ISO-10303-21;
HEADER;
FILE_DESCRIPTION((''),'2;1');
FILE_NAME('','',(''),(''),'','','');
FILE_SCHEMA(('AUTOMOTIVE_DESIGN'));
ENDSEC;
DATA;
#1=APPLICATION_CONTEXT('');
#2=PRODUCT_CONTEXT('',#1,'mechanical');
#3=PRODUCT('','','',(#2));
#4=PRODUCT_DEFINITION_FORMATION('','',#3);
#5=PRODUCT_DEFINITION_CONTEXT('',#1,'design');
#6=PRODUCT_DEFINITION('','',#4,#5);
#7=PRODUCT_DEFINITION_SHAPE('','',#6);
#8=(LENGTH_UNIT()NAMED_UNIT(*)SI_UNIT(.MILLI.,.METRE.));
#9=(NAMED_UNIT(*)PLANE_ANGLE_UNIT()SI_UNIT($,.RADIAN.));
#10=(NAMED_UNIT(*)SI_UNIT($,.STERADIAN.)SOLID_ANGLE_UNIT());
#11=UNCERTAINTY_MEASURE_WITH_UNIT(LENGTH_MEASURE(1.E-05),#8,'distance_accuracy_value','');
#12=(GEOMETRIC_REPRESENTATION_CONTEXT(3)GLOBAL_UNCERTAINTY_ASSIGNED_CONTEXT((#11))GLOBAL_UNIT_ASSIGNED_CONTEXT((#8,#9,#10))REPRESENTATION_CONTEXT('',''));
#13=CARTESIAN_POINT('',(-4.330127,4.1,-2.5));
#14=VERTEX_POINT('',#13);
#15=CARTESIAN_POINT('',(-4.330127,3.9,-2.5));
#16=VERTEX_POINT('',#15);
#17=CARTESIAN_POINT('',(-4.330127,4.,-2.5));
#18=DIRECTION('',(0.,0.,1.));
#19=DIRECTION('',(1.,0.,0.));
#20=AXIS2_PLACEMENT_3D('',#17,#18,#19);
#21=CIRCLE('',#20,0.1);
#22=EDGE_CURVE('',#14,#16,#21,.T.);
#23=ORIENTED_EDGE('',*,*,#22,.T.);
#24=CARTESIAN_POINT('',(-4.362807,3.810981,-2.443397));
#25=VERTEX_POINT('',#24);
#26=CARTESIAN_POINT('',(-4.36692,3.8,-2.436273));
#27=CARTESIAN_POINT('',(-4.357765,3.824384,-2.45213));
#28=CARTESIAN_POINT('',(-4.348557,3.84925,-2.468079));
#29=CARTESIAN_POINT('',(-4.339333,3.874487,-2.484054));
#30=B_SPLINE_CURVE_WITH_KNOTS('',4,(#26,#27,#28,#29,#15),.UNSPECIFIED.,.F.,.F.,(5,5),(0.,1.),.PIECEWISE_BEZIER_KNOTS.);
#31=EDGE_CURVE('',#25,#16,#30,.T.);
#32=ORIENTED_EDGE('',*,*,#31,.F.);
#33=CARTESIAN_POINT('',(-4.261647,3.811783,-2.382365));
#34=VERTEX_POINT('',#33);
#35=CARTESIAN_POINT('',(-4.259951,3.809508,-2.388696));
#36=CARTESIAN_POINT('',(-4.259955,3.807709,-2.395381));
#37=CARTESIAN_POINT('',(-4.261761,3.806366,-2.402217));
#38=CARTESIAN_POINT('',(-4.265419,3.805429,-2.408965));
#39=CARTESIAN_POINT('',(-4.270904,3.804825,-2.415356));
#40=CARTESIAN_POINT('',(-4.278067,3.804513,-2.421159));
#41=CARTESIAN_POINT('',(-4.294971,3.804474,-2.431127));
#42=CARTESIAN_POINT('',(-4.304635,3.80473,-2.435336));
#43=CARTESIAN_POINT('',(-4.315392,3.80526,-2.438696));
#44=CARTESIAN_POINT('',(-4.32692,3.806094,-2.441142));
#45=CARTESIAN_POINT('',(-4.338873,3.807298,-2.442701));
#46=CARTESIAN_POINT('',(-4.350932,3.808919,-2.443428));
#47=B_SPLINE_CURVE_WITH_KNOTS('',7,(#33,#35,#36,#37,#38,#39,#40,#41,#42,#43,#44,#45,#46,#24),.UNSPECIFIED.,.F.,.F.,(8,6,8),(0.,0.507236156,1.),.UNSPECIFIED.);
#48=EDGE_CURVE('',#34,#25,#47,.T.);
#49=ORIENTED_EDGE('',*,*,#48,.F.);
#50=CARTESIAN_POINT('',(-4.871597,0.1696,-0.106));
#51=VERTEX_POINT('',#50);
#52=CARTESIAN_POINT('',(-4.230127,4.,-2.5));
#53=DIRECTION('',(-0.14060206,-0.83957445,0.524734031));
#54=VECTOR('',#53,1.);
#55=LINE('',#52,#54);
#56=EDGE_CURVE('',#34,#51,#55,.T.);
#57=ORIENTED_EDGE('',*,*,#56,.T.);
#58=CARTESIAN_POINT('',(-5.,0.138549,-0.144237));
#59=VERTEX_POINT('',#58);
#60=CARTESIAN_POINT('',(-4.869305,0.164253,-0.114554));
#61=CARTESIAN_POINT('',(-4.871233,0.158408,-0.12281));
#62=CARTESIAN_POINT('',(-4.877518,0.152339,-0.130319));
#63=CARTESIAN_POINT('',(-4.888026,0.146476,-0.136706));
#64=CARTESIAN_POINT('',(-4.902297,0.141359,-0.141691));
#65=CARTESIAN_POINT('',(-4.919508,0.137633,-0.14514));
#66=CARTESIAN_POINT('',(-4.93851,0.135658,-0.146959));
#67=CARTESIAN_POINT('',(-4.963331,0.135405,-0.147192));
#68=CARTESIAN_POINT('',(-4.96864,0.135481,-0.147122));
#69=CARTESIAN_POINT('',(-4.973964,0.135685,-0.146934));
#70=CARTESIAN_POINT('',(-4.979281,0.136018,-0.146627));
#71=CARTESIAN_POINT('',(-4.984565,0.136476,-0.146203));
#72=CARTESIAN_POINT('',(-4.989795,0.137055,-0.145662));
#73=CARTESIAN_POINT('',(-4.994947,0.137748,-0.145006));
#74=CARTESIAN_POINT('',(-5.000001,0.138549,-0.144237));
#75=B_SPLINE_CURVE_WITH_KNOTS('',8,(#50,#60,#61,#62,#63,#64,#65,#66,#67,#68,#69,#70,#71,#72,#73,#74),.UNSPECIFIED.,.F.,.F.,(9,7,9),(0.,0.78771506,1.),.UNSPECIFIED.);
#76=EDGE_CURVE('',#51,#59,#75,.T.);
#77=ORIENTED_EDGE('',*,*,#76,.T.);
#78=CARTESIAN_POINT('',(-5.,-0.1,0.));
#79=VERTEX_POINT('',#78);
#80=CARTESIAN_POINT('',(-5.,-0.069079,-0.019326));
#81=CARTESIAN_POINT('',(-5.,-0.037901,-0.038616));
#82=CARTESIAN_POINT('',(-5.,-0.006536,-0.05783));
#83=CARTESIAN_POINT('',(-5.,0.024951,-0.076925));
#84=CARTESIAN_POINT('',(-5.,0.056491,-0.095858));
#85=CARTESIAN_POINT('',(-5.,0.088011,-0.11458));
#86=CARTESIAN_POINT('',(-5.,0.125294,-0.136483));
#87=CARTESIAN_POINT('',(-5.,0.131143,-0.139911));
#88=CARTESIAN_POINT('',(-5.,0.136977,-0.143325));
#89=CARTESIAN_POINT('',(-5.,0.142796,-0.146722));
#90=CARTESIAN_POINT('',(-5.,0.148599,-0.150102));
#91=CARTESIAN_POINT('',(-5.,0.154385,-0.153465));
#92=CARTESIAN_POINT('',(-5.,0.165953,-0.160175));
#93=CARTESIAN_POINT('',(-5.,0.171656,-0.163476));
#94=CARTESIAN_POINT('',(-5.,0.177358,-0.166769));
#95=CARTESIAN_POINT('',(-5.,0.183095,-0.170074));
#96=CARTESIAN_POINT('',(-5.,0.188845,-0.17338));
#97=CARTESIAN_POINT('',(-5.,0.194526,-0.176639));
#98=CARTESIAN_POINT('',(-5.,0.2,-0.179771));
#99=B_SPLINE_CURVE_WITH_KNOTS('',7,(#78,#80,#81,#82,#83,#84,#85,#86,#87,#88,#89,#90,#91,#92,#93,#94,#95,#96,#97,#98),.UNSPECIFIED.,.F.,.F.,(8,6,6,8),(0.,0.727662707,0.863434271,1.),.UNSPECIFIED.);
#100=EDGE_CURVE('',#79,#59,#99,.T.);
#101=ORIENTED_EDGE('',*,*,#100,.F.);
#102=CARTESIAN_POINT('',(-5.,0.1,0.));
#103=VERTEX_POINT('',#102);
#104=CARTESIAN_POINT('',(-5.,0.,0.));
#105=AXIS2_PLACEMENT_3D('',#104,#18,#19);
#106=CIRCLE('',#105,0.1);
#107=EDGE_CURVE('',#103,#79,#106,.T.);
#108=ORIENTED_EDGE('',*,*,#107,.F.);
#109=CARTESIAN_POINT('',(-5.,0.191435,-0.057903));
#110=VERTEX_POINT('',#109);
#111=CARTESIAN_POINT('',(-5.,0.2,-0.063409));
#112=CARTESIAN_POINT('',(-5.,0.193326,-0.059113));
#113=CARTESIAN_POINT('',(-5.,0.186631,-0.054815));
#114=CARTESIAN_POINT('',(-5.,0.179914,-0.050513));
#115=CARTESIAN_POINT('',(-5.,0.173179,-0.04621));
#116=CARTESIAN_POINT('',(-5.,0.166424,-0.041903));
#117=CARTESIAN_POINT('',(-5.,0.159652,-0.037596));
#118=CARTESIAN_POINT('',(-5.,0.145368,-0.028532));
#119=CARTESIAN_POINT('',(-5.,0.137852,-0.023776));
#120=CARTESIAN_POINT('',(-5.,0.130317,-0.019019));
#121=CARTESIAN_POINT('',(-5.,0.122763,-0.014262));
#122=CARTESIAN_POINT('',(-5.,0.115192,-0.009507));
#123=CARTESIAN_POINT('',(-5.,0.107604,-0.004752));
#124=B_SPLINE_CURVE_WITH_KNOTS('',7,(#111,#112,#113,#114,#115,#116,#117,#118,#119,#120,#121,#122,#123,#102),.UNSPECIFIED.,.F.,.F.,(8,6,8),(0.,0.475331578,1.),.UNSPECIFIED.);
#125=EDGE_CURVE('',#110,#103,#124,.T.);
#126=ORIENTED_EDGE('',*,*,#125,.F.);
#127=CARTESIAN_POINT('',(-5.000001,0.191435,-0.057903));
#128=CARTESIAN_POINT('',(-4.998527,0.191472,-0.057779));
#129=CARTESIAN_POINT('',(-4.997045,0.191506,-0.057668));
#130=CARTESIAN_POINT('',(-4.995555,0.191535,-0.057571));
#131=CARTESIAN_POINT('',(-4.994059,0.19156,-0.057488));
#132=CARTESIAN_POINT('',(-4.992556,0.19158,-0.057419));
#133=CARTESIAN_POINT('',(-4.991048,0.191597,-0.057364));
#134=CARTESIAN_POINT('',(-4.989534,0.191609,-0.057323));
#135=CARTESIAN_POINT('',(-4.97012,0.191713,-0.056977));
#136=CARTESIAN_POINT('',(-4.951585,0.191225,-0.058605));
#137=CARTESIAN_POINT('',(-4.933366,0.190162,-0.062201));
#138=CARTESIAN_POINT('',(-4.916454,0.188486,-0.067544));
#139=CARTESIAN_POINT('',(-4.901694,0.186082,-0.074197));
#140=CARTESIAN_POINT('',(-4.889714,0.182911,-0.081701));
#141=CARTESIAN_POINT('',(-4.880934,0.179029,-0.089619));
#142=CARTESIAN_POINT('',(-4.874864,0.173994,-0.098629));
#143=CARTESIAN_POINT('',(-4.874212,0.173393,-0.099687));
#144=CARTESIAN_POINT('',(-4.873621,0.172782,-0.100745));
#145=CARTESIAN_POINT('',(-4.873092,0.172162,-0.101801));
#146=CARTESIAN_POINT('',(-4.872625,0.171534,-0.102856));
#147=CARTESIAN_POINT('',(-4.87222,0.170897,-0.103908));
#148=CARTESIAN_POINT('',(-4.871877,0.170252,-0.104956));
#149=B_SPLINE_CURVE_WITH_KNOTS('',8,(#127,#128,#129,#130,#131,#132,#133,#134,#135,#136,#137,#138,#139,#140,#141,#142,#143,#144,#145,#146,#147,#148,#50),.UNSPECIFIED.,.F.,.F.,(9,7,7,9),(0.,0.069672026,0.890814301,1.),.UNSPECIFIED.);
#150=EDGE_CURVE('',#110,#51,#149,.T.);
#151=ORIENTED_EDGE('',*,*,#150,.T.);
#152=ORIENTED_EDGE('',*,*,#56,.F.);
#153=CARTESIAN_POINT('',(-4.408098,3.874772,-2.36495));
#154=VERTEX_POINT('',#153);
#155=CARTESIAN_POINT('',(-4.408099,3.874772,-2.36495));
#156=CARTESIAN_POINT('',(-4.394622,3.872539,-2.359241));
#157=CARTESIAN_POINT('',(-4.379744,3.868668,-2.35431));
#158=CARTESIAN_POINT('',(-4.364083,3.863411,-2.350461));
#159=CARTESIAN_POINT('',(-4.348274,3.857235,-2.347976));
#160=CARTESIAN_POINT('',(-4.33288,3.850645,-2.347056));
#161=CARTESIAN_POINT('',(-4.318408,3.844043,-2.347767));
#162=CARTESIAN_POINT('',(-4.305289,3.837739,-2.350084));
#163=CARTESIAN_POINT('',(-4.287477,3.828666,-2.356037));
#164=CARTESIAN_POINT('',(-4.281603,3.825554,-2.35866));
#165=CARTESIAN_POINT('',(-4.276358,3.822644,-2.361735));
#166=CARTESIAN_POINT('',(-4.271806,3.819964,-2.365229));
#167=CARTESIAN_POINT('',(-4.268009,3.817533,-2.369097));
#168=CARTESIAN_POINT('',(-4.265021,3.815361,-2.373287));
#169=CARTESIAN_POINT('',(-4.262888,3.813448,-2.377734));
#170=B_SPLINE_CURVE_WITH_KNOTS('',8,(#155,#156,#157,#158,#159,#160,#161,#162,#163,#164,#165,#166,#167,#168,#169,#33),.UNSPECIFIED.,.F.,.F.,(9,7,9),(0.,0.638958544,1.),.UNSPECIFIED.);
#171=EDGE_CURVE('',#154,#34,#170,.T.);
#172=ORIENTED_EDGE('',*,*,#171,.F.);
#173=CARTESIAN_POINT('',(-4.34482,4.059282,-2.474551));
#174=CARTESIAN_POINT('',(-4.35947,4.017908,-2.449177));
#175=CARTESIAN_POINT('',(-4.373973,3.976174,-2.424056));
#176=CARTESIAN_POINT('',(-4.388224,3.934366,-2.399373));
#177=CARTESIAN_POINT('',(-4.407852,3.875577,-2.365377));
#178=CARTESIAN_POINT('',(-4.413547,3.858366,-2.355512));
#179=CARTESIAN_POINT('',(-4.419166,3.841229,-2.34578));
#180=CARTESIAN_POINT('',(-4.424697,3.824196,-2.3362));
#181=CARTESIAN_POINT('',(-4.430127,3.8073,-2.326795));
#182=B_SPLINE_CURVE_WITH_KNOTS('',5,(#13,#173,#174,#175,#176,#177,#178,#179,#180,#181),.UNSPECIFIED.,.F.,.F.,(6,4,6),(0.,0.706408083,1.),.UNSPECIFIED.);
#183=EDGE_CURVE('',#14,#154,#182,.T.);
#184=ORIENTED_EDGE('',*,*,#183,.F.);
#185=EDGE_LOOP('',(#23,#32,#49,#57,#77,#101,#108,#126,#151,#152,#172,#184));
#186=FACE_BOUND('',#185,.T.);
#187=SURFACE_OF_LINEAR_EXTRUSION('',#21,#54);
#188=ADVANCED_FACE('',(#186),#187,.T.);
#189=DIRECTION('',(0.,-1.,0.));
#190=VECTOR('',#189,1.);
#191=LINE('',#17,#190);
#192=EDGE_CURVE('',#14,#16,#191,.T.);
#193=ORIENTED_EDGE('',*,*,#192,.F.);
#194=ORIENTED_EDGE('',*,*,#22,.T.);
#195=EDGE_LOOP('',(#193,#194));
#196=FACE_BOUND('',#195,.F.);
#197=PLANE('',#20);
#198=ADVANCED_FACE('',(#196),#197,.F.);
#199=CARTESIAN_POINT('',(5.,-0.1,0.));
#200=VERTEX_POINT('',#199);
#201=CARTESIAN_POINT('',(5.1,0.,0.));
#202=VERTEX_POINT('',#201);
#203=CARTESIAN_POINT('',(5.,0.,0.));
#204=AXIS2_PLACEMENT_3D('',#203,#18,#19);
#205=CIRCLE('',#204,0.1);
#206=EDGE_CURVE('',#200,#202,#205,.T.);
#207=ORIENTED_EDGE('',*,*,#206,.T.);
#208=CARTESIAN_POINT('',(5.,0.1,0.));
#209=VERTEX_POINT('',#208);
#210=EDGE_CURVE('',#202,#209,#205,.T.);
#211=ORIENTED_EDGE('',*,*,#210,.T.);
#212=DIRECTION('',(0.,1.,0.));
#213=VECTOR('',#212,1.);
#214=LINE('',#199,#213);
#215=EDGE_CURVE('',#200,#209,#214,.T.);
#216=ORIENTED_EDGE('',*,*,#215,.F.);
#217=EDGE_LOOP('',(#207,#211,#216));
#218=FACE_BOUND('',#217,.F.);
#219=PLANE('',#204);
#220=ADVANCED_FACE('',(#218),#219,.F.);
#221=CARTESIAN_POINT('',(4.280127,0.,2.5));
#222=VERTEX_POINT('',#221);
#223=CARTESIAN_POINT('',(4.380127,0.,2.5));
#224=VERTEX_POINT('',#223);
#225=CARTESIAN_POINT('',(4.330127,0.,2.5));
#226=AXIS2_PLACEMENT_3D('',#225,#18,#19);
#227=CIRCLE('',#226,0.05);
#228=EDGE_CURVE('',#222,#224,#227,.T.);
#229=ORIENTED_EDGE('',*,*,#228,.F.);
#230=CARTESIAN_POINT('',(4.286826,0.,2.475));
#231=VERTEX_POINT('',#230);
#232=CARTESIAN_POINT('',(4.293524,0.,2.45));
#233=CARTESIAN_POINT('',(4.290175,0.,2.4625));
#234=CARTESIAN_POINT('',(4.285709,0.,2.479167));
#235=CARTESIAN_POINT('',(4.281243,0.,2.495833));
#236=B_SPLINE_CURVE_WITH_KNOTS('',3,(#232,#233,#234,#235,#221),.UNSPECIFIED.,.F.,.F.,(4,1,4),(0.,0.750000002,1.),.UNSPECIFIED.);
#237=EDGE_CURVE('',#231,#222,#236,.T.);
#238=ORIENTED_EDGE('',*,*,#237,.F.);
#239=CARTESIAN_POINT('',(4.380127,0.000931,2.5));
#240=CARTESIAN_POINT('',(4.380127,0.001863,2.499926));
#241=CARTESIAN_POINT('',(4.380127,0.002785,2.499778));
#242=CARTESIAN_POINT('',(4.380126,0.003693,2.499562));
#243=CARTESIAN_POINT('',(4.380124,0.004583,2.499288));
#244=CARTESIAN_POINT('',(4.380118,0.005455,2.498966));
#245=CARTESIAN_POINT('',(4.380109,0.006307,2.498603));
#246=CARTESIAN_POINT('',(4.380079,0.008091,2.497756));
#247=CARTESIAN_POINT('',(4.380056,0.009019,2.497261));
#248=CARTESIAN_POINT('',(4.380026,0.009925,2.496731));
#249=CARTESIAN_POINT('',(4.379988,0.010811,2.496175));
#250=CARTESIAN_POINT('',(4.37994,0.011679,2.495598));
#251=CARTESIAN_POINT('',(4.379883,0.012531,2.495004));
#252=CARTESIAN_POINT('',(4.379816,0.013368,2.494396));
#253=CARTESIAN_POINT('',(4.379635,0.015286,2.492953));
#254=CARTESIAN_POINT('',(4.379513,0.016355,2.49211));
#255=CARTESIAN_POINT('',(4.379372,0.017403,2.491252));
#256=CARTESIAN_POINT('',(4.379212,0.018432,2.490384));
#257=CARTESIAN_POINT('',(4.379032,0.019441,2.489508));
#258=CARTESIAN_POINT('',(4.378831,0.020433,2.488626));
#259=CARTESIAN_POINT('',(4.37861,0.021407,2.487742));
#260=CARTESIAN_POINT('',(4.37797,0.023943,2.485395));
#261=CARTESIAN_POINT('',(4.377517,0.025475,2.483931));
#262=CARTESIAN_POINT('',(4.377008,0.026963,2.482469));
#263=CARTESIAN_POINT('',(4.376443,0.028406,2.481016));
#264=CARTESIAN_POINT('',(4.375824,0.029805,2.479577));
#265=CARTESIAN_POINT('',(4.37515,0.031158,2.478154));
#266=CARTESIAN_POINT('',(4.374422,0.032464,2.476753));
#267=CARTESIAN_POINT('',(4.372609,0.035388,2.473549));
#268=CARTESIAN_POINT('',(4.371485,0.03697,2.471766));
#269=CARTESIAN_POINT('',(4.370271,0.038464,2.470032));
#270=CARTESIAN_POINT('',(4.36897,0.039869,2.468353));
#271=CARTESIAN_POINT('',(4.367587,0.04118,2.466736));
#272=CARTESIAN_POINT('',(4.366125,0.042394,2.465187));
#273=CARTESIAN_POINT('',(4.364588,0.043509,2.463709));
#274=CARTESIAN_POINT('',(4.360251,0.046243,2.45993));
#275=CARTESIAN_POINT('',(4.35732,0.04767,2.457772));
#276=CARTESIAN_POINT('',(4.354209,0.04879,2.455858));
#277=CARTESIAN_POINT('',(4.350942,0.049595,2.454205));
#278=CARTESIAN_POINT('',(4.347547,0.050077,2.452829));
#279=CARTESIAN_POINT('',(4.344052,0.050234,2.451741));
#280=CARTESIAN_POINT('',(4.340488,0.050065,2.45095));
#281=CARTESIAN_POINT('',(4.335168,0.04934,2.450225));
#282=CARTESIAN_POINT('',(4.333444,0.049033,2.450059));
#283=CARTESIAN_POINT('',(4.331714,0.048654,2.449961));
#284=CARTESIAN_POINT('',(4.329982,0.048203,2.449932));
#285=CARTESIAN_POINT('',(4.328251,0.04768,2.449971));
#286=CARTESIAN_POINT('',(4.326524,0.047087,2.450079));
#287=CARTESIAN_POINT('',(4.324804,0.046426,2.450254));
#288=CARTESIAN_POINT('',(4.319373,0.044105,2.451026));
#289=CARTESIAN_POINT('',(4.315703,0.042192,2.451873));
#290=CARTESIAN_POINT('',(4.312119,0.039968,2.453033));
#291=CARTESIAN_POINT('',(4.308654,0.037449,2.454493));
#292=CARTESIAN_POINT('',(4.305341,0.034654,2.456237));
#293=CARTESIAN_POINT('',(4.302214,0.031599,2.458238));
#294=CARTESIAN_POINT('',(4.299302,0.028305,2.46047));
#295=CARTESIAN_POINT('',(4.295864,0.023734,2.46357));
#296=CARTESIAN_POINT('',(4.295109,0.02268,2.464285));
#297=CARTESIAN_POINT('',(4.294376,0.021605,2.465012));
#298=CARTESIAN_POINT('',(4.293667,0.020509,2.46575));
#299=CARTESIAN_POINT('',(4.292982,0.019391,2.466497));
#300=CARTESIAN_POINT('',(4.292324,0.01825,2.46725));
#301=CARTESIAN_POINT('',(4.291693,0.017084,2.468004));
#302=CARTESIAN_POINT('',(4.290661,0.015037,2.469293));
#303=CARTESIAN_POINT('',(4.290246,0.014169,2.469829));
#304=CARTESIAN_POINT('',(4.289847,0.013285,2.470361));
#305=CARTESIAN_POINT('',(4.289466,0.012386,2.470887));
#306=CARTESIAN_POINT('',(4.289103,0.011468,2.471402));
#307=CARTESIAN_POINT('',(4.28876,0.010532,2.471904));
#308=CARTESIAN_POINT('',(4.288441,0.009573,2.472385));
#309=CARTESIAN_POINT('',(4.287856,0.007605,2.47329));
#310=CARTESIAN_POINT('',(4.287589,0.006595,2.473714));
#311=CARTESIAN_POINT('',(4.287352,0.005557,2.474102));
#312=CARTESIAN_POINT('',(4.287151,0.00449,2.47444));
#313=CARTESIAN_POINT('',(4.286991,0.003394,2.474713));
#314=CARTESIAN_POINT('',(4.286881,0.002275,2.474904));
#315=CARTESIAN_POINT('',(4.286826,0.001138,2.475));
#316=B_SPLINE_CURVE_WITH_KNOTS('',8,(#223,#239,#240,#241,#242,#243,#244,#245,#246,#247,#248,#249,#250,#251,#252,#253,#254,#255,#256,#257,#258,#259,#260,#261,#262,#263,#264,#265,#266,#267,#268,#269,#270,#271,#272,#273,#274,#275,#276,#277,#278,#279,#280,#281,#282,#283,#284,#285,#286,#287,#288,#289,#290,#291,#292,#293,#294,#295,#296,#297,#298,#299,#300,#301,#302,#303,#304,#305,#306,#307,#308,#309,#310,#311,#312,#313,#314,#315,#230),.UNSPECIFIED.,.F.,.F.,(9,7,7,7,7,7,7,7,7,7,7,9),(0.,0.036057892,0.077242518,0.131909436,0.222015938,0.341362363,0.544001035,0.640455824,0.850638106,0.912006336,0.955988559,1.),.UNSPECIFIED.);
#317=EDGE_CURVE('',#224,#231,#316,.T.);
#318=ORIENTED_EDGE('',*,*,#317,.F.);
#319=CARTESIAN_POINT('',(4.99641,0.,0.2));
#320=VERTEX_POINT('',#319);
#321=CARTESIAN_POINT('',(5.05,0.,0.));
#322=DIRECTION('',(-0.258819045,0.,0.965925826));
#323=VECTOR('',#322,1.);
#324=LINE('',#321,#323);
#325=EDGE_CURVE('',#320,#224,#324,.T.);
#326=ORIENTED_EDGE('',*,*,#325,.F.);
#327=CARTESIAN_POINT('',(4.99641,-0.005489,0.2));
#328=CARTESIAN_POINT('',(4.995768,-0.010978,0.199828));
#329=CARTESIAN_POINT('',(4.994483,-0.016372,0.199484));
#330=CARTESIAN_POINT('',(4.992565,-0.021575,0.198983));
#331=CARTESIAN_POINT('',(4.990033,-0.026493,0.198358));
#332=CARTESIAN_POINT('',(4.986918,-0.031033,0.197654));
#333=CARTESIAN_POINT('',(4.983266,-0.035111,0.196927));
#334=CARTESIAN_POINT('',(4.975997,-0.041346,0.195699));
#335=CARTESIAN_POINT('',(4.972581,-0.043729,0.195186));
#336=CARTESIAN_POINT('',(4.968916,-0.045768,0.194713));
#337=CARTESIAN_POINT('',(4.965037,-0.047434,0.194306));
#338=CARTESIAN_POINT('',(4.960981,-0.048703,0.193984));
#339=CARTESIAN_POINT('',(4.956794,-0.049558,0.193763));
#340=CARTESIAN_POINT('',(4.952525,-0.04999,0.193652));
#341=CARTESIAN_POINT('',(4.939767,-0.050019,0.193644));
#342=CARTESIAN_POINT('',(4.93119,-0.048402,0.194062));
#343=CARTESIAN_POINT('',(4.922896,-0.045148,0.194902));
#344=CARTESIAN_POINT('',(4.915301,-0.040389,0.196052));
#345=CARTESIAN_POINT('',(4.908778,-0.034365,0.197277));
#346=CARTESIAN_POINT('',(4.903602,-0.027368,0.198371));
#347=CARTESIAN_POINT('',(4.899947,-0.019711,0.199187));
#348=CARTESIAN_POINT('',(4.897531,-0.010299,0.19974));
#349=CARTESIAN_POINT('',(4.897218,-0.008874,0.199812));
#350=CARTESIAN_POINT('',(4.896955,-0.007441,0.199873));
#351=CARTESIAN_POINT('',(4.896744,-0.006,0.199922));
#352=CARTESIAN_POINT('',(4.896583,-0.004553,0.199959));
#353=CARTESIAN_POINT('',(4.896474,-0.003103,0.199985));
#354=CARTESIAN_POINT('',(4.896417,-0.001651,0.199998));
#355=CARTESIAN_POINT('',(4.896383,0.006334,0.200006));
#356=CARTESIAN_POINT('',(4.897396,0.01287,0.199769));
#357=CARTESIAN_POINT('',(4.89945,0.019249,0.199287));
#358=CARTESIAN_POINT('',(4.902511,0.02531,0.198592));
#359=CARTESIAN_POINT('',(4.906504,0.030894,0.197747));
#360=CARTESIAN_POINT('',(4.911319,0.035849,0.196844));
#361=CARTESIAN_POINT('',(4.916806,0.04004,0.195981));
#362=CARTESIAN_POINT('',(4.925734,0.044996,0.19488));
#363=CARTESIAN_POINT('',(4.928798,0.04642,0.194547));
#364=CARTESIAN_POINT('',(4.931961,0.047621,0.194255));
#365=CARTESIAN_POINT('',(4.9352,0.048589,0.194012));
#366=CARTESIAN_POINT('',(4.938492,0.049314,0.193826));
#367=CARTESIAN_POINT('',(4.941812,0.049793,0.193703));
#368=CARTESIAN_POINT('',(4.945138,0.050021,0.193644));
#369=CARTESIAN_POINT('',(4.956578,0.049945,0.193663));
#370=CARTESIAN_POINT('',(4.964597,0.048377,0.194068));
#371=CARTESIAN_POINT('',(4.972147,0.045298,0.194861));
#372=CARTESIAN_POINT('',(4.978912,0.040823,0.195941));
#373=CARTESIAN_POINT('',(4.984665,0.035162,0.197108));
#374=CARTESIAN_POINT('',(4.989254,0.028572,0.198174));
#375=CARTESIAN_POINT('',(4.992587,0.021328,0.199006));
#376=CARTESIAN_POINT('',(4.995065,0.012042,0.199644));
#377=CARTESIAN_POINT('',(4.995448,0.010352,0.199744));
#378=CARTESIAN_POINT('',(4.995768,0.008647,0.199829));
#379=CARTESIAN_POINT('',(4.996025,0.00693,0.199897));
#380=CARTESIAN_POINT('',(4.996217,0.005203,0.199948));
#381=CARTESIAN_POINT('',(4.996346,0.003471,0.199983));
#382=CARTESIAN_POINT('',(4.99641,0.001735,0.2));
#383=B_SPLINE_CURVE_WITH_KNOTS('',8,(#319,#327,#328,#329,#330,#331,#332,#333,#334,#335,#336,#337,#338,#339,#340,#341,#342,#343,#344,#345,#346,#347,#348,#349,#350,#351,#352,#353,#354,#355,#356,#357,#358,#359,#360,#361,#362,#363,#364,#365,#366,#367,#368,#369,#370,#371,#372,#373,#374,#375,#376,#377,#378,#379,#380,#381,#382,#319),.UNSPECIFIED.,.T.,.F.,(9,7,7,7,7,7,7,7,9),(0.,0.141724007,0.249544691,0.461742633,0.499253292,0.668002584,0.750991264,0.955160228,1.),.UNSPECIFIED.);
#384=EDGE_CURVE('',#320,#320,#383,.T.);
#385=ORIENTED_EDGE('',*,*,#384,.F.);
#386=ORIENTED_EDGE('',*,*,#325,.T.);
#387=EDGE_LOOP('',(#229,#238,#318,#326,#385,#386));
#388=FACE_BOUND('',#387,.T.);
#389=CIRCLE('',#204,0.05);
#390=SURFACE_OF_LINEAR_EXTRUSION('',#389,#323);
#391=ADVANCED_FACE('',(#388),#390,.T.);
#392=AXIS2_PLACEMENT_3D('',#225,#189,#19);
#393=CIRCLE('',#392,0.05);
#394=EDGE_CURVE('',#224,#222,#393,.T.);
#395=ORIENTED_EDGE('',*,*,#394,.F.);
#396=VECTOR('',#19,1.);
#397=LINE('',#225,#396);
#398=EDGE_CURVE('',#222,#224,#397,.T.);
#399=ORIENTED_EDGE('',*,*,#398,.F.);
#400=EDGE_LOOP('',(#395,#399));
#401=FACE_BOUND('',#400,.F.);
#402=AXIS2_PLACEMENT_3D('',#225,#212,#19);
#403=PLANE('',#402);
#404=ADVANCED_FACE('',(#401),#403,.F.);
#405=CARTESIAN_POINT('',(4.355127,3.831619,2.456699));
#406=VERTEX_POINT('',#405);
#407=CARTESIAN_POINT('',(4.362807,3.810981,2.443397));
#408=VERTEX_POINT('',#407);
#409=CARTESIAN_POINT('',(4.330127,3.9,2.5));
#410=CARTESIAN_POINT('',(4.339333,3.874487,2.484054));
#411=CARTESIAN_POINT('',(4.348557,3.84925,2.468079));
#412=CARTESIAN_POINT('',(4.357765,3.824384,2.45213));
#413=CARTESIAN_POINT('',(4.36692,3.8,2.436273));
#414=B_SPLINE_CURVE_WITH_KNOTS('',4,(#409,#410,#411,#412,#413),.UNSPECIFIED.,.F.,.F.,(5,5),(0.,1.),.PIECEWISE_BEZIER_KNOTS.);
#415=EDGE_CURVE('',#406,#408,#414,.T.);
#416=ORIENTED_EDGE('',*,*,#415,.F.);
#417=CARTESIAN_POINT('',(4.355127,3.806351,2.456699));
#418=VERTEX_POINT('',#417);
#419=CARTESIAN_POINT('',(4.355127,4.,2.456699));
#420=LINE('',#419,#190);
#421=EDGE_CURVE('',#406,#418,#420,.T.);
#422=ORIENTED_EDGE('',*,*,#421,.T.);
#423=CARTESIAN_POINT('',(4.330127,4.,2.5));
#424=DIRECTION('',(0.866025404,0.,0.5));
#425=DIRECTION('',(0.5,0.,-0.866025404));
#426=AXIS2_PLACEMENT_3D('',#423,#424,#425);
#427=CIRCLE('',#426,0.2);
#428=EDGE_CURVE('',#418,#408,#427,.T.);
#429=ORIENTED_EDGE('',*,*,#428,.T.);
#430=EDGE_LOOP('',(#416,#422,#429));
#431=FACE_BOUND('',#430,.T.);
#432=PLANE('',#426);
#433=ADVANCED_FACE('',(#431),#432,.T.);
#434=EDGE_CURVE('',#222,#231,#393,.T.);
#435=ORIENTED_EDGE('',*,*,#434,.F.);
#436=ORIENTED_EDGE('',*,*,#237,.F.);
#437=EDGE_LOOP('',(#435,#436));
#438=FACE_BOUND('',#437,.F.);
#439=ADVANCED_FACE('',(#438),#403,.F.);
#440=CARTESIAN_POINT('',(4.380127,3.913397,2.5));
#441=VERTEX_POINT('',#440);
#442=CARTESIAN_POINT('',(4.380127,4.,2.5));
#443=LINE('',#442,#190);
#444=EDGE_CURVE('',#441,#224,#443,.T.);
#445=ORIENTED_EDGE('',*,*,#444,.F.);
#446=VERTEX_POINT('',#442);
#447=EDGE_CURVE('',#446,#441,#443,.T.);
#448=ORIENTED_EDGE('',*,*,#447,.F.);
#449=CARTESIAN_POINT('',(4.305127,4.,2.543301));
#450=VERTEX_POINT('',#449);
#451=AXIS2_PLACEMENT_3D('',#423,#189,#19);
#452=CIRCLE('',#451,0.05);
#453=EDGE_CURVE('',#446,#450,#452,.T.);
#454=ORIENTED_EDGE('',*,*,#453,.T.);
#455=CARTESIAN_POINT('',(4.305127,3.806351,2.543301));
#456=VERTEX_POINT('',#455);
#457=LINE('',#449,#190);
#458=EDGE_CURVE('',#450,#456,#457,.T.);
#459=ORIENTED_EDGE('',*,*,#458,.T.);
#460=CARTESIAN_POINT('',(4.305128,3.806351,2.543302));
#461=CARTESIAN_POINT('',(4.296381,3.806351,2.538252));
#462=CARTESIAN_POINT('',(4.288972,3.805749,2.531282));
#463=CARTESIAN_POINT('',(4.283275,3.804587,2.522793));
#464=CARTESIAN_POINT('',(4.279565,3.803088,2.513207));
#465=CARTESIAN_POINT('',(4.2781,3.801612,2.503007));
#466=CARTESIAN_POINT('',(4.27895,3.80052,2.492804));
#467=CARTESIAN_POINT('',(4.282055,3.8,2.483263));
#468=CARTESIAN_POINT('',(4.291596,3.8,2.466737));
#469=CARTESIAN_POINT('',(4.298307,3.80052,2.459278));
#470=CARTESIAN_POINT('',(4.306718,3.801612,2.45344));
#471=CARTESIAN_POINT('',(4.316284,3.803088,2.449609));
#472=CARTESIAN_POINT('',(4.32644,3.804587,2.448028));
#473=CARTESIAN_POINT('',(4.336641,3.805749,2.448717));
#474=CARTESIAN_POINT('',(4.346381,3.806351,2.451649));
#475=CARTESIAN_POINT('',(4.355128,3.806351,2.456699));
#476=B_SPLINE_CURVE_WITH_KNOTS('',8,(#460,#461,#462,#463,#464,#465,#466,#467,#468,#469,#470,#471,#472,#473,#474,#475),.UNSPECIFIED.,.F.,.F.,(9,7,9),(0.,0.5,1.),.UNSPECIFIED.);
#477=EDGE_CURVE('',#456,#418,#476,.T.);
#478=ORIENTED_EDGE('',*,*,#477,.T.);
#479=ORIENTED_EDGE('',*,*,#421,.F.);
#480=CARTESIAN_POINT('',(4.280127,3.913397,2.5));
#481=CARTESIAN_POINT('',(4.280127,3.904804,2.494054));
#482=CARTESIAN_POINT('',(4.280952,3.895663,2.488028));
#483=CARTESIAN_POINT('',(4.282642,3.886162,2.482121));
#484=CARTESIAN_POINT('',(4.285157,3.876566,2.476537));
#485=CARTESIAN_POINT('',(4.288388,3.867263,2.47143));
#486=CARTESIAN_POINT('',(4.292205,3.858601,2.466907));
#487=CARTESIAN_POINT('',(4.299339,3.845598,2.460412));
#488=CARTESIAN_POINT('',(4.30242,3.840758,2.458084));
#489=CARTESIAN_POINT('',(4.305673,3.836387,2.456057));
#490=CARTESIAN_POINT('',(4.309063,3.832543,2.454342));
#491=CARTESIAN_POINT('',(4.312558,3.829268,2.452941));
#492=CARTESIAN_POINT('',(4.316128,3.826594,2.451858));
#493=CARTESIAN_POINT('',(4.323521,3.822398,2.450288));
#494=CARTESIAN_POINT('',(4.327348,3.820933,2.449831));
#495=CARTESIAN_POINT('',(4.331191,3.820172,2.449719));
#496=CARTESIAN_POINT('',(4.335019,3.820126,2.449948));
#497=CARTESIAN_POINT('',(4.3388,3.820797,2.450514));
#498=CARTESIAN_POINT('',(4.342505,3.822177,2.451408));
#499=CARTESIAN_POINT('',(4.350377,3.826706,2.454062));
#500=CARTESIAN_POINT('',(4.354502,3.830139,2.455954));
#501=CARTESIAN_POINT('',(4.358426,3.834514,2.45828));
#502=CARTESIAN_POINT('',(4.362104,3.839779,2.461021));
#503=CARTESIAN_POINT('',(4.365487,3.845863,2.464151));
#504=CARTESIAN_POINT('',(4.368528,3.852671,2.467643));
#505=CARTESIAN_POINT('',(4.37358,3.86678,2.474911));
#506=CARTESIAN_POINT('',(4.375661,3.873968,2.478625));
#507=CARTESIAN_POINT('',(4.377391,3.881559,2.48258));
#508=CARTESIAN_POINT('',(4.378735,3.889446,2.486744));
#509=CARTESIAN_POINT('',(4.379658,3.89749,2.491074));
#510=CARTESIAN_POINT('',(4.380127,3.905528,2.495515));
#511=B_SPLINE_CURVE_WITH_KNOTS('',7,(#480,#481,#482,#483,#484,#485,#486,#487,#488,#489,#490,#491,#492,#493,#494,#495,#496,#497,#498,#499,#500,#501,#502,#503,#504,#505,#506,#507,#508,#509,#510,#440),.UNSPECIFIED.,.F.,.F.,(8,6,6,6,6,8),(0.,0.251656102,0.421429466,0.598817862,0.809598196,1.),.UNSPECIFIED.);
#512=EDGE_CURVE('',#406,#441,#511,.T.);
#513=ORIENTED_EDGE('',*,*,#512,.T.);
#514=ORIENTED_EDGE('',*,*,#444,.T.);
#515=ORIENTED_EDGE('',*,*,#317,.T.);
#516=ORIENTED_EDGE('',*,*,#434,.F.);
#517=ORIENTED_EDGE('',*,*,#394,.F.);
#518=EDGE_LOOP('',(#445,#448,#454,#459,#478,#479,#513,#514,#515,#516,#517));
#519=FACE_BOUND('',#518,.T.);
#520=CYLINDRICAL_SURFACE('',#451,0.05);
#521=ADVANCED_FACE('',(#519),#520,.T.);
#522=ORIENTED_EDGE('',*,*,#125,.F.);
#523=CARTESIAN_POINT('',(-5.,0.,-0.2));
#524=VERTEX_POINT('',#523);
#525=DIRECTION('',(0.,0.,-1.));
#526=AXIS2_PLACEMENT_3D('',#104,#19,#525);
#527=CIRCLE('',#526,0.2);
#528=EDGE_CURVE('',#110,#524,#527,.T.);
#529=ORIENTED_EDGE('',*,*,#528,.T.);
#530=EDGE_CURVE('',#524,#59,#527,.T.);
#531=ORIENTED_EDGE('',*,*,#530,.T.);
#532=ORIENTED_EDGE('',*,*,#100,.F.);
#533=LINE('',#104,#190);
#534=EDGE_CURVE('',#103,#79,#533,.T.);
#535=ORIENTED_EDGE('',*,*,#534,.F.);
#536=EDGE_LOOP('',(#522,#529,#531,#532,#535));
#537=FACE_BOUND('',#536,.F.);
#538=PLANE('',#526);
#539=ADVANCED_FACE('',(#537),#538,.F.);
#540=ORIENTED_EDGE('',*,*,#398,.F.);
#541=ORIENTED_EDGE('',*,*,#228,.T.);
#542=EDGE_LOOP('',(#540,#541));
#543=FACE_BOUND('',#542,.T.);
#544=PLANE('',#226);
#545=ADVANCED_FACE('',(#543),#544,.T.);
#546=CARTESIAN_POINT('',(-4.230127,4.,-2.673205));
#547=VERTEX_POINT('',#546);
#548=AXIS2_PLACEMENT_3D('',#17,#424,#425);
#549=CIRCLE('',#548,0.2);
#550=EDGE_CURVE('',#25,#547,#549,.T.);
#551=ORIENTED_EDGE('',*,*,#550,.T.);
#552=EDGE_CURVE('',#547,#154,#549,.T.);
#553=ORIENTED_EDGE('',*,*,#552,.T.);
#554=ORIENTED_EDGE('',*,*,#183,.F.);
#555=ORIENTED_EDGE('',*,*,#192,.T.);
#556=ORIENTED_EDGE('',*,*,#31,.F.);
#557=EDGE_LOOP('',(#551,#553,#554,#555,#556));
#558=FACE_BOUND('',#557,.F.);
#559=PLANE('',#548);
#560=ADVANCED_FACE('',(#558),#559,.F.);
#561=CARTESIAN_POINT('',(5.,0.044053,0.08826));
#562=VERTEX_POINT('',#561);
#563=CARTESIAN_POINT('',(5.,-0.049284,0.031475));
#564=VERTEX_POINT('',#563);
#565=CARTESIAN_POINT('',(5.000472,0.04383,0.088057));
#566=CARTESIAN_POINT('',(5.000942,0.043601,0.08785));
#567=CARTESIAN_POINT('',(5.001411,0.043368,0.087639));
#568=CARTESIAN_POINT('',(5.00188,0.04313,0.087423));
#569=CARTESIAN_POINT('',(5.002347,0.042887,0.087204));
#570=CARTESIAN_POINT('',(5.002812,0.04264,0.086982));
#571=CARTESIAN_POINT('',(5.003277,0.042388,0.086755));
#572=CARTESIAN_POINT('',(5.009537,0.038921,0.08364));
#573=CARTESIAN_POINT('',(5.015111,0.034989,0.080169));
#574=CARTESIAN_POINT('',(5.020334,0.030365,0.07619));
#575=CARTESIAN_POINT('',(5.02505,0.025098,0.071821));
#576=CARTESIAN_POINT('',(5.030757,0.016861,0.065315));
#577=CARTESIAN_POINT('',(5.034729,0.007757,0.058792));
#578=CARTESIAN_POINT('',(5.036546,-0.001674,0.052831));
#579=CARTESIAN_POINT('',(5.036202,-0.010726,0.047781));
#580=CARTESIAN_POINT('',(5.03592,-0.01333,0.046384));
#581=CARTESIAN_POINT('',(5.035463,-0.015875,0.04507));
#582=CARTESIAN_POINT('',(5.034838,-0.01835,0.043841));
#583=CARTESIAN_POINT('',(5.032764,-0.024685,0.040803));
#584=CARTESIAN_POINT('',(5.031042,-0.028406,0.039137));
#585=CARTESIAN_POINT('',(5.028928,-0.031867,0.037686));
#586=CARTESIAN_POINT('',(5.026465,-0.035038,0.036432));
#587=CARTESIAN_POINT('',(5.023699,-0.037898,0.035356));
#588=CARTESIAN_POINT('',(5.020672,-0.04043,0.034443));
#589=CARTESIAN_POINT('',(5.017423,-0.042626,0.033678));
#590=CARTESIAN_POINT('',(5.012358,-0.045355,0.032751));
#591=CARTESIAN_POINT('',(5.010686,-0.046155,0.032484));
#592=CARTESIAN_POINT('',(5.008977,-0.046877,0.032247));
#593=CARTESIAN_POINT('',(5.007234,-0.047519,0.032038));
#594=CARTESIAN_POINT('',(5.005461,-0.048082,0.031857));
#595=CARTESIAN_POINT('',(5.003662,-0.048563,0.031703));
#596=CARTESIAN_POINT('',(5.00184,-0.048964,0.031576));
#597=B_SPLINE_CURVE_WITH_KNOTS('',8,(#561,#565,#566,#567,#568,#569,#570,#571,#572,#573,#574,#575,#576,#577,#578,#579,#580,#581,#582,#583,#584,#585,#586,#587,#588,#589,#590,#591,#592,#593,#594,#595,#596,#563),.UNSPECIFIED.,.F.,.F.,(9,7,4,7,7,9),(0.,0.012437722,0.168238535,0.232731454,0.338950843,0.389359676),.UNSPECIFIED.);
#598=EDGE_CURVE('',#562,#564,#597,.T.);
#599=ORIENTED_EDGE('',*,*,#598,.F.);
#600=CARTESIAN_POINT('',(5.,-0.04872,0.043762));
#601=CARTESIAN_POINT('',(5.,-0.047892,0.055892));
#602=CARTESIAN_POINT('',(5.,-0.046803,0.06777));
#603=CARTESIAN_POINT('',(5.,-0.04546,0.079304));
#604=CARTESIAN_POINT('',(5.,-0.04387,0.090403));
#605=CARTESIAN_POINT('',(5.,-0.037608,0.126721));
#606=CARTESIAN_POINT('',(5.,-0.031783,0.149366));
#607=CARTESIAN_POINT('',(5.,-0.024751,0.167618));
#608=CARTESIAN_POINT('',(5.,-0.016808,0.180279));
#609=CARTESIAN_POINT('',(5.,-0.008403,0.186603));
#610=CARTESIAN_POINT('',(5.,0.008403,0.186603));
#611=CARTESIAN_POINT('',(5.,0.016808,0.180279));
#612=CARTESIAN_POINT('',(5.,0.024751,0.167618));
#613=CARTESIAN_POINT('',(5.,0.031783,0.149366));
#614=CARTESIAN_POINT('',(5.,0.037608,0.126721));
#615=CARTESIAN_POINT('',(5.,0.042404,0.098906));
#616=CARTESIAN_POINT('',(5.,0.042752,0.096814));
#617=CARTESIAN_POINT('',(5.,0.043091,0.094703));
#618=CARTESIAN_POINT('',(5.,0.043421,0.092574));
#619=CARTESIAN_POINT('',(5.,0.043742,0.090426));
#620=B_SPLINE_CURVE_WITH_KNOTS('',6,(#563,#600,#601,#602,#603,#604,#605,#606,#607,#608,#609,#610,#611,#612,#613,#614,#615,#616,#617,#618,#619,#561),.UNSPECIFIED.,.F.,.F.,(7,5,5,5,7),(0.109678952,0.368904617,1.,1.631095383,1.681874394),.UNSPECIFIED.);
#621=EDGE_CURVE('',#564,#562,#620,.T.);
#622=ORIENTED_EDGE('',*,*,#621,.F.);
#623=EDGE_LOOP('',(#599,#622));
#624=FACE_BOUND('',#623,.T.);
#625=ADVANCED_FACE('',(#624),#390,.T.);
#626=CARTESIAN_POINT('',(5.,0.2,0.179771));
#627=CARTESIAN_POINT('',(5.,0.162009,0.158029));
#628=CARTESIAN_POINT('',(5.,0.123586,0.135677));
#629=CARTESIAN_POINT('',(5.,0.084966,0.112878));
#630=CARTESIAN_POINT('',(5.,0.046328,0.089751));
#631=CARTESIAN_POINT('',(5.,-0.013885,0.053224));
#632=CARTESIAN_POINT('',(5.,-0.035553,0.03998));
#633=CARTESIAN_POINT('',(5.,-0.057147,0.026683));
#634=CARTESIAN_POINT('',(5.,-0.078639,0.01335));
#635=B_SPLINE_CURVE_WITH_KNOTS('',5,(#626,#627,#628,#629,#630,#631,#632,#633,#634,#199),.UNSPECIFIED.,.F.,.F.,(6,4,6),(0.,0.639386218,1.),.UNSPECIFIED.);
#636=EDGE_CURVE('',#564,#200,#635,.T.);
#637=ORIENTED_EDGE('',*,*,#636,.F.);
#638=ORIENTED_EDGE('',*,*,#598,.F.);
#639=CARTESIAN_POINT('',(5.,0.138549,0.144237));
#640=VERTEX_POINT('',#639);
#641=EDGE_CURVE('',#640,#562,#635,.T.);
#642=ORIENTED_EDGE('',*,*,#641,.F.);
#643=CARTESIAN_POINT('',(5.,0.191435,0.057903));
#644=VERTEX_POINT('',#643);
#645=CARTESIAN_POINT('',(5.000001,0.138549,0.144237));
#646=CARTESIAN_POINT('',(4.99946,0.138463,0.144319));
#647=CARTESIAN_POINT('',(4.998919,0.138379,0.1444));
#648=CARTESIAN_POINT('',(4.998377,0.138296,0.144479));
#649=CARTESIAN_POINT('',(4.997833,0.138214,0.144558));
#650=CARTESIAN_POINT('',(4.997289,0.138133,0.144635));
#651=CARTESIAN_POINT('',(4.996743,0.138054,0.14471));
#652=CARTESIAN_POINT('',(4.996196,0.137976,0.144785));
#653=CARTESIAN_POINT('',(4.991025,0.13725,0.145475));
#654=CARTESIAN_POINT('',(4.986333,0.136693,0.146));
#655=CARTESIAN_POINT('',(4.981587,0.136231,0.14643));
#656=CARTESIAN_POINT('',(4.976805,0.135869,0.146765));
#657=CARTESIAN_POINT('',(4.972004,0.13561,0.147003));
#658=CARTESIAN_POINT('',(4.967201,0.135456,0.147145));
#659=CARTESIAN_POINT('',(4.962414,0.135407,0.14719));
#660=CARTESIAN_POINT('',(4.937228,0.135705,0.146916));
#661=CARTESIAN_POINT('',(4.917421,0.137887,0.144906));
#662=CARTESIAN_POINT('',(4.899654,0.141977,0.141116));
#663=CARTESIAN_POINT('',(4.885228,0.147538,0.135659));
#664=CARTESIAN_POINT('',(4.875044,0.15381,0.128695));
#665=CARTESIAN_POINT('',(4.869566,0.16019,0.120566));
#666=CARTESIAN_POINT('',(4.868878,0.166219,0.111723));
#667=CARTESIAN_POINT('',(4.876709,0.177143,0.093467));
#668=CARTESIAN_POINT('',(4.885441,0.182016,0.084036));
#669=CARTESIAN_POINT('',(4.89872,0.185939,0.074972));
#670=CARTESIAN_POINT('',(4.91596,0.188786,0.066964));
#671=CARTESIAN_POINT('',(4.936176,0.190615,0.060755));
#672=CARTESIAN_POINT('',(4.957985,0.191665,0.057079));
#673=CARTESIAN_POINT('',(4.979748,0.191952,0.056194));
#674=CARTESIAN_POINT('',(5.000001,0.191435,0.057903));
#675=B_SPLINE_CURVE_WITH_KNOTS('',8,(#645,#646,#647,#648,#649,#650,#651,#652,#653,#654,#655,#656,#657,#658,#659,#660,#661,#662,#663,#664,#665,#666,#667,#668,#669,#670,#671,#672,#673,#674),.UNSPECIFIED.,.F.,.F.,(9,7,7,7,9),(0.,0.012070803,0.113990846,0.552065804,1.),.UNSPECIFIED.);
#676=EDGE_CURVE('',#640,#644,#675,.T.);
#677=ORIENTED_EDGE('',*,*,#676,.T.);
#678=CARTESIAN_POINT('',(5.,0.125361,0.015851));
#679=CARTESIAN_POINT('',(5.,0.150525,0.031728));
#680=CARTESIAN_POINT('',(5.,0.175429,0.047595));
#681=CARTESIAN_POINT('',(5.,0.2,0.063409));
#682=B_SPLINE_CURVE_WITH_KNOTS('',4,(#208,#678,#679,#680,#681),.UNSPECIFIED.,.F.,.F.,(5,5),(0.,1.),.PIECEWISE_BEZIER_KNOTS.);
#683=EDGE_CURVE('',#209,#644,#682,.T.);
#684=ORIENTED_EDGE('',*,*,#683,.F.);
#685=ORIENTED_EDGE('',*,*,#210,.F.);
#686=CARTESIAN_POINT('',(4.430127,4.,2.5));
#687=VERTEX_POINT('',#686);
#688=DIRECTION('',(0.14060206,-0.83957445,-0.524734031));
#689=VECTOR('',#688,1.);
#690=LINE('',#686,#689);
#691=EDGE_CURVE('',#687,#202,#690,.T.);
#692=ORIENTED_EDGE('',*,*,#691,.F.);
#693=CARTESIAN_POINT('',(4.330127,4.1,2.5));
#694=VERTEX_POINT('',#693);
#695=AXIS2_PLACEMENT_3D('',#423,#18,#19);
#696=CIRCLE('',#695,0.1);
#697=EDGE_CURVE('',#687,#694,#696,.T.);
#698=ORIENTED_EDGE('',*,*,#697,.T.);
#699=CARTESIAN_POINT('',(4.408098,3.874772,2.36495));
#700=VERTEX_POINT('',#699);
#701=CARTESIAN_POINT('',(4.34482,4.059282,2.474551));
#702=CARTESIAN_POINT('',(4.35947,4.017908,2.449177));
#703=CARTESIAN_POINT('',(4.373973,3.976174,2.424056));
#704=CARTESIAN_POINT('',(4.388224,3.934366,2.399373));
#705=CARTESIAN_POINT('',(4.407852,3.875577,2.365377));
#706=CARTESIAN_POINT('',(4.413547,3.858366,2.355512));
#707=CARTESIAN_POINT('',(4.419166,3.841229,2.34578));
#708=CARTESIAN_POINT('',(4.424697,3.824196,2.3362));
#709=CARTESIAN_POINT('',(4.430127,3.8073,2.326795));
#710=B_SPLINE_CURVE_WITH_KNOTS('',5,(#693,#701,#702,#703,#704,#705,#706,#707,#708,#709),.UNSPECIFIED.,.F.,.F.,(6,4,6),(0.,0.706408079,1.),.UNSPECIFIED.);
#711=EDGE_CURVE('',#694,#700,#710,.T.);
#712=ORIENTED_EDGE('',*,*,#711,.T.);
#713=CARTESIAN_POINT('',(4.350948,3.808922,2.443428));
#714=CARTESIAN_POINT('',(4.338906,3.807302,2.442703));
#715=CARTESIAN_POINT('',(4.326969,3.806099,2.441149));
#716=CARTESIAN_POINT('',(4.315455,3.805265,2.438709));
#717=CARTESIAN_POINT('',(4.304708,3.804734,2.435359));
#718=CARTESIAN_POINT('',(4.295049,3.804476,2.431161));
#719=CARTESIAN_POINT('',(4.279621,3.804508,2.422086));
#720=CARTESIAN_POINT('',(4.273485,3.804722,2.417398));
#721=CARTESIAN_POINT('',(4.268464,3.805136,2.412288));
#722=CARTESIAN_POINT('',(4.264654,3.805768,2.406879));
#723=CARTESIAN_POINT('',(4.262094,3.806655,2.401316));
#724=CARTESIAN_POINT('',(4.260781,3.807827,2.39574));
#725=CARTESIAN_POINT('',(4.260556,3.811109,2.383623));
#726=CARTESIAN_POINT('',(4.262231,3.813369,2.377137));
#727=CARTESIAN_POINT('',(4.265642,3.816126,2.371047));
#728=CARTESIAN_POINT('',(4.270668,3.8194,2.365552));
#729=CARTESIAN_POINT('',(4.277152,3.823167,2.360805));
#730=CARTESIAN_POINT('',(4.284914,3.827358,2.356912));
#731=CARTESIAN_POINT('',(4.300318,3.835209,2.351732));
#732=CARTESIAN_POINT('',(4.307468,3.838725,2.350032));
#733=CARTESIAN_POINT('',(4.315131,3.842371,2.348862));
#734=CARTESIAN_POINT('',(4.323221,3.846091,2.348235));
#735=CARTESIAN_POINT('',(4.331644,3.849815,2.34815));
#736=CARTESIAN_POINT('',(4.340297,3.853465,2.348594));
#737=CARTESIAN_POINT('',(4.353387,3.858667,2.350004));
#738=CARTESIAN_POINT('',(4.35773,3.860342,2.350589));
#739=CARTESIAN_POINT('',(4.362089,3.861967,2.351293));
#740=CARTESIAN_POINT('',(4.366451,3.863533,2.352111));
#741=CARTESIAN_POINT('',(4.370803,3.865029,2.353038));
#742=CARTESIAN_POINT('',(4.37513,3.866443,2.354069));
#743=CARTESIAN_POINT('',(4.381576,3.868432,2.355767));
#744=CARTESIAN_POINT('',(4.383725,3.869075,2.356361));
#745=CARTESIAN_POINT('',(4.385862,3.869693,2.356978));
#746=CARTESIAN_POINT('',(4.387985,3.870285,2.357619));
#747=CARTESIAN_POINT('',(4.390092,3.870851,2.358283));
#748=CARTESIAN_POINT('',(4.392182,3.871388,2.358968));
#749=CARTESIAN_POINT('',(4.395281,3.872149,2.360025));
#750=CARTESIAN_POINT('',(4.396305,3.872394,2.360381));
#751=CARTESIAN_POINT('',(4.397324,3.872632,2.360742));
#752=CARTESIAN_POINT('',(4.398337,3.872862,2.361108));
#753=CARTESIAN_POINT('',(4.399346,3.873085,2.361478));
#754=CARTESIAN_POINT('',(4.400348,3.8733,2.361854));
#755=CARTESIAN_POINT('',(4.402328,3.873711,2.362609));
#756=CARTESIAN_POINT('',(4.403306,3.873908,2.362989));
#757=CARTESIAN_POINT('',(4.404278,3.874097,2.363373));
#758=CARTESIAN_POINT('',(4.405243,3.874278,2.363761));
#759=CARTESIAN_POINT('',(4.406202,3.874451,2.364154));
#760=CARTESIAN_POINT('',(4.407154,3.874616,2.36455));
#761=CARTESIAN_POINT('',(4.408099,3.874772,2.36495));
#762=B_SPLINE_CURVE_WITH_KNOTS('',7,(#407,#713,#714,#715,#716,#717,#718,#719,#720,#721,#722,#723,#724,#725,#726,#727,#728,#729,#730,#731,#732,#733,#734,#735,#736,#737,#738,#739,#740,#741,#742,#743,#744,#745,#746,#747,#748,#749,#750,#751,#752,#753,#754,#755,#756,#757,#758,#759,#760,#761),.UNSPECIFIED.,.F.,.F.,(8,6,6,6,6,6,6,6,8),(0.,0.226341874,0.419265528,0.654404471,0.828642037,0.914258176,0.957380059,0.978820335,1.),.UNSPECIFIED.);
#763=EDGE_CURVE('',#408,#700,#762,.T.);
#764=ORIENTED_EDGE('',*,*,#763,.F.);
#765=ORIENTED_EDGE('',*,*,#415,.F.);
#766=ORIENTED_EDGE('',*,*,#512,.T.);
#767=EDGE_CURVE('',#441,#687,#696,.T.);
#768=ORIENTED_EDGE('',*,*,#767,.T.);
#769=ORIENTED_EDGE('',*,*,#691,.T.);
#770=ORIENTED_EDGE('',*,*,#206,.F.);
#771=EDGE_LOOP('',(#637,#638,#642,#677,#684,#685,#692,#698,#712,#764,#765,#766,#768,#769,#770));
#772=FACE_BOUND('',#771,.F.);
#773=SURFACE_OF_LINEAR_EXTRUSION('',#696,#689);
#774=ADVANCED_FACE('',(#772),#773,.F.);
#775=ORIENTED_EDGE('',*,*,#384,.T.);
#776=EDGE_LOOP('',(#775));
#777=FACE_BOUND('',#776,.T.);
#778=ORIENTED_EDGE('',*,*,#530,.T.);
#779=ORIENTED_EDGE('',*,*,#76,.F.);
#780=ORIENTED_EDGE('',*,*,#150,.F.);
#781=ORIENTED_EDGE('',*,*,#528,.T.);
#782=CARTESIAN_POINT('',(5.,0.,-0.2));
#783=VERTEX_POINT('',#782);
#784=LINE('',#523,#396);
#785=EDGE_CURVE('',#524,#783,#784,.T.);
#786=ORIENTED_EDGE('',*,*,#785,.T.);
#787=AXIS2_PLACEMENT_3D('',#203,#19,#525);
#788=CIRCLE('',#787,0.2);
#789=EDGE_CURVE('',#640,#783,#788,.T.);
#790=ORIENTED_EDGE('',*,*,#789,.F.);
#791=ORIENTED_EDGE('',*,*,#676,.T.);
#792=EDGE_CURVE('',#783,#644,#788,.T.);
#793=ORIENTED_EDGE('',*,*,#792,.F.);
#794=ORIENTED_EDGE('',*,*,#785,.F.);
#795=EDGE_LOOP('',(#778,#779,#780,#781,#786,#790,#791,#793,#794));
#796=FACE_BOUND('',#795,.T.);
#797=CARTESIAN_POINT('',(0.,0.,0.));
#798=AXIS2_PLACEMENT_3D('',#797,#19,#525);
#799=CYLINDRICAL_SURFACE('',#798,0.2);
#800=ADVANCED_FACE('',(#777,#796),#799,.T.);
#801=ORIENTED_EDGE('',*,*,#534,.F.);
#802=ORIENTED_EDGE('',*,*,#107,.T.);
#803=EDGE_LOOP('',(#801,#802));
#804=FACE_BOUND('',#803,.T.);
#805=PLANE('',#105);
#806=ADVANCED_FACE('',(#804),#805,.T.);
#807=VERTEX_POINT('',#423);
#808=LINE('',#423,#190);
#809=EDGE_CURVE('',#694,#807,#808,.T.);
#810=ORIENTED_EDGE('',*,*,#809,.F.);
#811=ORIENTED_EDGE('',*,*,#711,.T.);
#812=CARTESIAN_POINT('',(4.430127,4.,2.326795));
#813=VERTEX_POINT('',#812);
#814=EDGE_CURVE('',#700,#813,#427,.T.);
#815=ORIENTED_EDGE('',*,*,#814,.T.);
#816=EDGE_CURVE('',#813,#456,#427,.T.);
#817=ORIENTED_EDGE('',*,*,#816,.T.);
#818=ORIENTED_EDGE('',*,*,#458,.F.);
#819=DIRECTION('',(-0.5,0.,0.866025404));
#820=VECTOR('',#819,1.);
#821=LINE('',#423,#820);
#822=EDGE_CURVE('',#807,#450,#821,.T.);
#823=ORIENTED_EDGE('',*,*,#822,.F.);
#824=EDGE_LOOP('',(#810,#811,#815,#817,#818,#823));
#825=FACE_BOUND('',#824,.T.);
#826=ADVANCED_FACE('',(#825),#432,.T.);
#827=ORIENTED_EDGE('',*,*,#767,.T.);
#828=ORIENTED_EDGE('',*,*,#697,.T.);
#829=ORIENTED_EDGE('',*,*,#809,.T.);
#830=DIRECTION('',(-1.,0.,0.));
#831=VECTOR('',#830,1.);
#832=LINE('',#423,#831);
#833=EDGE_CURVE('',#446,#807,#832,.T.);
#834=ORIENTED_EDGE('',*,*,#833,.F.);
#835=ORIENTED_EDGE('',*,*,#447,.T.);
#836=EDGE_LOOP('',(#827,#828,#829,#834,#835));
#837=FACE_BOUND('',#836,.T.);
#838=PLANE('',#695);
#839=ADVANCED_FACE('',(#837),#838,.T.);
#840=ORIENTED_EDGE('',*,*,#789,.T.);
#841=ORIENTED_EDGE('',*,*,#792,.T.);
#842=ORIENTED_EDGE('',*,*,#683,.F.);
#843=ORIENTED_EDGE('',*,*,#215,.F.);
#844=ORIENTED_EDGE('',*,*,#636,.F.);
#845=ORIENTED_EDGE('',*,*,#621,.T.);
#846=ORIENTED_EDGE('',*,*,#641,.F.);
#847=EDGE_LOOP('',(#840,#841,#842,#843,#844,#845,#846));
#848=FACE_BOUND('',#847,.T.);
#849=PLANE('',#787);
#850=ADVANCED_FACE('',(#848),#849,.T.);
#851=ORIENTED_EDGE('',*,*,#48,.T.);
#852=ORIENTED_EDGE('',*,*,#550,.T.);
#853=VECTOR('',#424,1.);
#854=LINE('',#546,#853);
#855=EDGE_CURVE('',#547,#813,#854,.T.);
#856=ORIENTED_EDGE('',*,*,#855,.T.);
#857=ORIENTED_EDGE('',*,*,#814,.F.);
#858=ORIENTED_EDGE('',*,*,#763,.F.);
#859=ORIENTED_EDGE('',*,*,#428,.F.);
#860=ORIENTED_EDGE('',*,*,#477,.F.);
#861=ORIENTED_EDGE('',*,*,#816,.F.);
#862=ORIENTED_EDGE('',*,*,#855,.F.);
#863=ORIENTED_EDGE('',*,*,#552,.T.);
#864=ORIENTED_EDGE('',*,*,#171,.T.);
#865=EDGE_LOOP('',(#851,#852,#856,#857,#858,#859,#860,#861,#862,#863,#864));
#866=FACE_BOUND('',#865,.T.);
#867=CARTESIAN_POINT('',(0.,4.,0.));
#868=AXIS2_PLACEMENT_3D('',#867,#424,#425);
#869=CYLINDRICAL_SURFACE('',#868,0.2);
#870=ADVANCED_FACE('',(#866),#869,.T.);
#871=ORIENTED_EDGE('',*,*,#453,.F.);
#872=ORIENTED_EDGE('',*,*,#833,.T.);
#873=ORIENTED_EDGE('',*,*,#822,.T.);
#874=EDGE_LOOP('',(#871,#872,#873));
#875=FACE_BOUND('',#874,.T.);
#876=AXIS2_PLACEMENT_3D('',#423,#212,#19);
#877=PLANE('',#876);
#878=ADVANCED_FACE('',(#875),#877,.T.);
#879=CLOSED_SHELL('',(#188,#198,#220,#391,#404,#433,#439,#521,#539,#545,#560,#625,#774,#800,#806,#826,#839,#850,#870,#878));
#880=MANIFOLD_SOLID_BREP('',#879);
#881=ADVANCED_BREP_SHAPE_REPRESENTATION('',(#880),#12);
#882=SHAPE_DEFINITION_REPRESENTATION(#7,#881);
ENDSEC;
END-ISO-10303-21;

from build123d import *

# Parameters (mm, degrees)
BOSS_EXTRUDE1_DEPTH      = 5
BOSS_EXTRUDE1_DEPTH_BACK = 5
SKETCH21_R               = 0.2
BOSS_EXTRUDE2_DEPTH      = 5
BOSS_EXTRUDE2_DEPTH_BACK = 5
SKETCH32_R               = 0.2
SKETCH48_R               = 0.1
SKETCH49_R               = 0.1
SKETCH53_R               = 0.05
SKETCH55_R               = 0.05


with BuildPart() as part:
    # Sketch21 → Boss-Extrude1 (new, two sides: drawn at the far end of the back side and taken through both)
    with BuildSketch(Plane(origin=(0, 0, 0), x_dir=(0, 0, -1), z_dir=(1, 0, 0)).offset(-BOSS_EXTRUDE1_DEPTH_BACK)):
        Circle(SKETCH21_R)
    extrude(amount=BOSS_EXTRUDE1_DEPTH + BOSS_EXTRUDE1_DEPTH_BACK)



with BuildPart() as body_2:
    # Sketch32 → Boss-Extrude2 (new, two sides: drawn at the far end of the back side and taken through both)
    with BuildSketch(Plane(origin=(0, 0, 0), x_dir=(0.49999999999999384, 0, -0.8660254037844423), z_dir=(0.8660254037844421, 0, 0.4999999999999938)).offset(-BOSS_EXTRUDE2_DEPTH_BACK)):
        with Locations((0, 4)):
            Circle(SKETCH32_R)
    extrude(amount=BOSS_EXTRUDE2_DEPTH + BOSS_EXTRUDE2_DEPTH_BACK)


with BuildPart() as part_1:
    add(part.part)

    add(body_2.part)  # Sweep1 merges body 2
    # Sweep1: sweep along a path in Sketch35
    with BuildLine(Plane(origin=(-4.665063509, 0, -1.25), x_dir=(-0.2588190451025216, 9.520411571258269e-14, 0.9659258262890681), z_dir=(-0.9659258262890681, -9.227366390944018e-13, -0.2588190451025216))) as sweep1_path:
        Line((-1.294095225, 4), (1.294095226, 0))
    # Sketch48 → Sweep1 (sweep)
    with BuildSketch(Plane.XY):
        with Locations((-5, 0)):
            Circle(SKETCH48_R)
    sweep(path=sweep1_path.line)

    # Sweep2: sweep along a path in Sketch39
    with BuildLine(Plane(origin=(4.665063509, 0, 1.25), x_dir=(0.25881904510252174, -9.816861385133173e-14, -0.9659258262890681), z_dir=(0.965925826289068, 9.15622402506253e-13, 0.2588190451025217))) as sweep2_path:
        Line((-1.294095226, 4), (1.294095226, 0))
    # Sketch49 → Sweep2 (sweep)
    with BuildSketch(Plane.XY):
        with Locations((5, 0)):
            Circle(SKETCH49_R)
    sweep(path=sweep2_path.line)

    # Sweep3: sweep along a path in Sketch46
    with BuildLine(Plane(origin=(4.665063509, 0, 1.25), x_dir=(0.25881904510252174, -9.816861385133173e-14, -0.9659258262890681), z_dir=(0.965925826289068, 9.15622402506253e-13, 0.2588190451025217))) as sweep3_path:
        Line((-1.294095226, 4), (-1.294095226, 0))
    # Sketch53 → Sweep3 (sweep)
    with BuildSketch(Plane(origin=(0, 0, 0), x_dir=(1, 0, 0), z_dir=(0, 1, 0))):
        with Locations((4.330127019, -2.5)):
            Circle(SKETCH53_R)
    sweep(path=sweep3_path.line)

    # Sweep4: sweep along a path in Sketch45
    with BuildLine(Plane(origin=(4.665063509, 0, 1.25), x_dir=(0.25881904510252174, -9.816861385133173e-14, -0.9659258262890681), z_dir=(0.965925826289068, 9.15622402506253e-13, 0.2588190451025217))) as sweep4_path:
        Line((1.294095226, 0), (-1.294095226, 0))
    # Sketch55 → Sweep4 (sweep)
    with BuildSketch(Plane.XY):
        with Locations((5, 0)):
            Circle(SKETCH55_R)
    sweep(path=sweep4_path.line)


solid = part_1.part
